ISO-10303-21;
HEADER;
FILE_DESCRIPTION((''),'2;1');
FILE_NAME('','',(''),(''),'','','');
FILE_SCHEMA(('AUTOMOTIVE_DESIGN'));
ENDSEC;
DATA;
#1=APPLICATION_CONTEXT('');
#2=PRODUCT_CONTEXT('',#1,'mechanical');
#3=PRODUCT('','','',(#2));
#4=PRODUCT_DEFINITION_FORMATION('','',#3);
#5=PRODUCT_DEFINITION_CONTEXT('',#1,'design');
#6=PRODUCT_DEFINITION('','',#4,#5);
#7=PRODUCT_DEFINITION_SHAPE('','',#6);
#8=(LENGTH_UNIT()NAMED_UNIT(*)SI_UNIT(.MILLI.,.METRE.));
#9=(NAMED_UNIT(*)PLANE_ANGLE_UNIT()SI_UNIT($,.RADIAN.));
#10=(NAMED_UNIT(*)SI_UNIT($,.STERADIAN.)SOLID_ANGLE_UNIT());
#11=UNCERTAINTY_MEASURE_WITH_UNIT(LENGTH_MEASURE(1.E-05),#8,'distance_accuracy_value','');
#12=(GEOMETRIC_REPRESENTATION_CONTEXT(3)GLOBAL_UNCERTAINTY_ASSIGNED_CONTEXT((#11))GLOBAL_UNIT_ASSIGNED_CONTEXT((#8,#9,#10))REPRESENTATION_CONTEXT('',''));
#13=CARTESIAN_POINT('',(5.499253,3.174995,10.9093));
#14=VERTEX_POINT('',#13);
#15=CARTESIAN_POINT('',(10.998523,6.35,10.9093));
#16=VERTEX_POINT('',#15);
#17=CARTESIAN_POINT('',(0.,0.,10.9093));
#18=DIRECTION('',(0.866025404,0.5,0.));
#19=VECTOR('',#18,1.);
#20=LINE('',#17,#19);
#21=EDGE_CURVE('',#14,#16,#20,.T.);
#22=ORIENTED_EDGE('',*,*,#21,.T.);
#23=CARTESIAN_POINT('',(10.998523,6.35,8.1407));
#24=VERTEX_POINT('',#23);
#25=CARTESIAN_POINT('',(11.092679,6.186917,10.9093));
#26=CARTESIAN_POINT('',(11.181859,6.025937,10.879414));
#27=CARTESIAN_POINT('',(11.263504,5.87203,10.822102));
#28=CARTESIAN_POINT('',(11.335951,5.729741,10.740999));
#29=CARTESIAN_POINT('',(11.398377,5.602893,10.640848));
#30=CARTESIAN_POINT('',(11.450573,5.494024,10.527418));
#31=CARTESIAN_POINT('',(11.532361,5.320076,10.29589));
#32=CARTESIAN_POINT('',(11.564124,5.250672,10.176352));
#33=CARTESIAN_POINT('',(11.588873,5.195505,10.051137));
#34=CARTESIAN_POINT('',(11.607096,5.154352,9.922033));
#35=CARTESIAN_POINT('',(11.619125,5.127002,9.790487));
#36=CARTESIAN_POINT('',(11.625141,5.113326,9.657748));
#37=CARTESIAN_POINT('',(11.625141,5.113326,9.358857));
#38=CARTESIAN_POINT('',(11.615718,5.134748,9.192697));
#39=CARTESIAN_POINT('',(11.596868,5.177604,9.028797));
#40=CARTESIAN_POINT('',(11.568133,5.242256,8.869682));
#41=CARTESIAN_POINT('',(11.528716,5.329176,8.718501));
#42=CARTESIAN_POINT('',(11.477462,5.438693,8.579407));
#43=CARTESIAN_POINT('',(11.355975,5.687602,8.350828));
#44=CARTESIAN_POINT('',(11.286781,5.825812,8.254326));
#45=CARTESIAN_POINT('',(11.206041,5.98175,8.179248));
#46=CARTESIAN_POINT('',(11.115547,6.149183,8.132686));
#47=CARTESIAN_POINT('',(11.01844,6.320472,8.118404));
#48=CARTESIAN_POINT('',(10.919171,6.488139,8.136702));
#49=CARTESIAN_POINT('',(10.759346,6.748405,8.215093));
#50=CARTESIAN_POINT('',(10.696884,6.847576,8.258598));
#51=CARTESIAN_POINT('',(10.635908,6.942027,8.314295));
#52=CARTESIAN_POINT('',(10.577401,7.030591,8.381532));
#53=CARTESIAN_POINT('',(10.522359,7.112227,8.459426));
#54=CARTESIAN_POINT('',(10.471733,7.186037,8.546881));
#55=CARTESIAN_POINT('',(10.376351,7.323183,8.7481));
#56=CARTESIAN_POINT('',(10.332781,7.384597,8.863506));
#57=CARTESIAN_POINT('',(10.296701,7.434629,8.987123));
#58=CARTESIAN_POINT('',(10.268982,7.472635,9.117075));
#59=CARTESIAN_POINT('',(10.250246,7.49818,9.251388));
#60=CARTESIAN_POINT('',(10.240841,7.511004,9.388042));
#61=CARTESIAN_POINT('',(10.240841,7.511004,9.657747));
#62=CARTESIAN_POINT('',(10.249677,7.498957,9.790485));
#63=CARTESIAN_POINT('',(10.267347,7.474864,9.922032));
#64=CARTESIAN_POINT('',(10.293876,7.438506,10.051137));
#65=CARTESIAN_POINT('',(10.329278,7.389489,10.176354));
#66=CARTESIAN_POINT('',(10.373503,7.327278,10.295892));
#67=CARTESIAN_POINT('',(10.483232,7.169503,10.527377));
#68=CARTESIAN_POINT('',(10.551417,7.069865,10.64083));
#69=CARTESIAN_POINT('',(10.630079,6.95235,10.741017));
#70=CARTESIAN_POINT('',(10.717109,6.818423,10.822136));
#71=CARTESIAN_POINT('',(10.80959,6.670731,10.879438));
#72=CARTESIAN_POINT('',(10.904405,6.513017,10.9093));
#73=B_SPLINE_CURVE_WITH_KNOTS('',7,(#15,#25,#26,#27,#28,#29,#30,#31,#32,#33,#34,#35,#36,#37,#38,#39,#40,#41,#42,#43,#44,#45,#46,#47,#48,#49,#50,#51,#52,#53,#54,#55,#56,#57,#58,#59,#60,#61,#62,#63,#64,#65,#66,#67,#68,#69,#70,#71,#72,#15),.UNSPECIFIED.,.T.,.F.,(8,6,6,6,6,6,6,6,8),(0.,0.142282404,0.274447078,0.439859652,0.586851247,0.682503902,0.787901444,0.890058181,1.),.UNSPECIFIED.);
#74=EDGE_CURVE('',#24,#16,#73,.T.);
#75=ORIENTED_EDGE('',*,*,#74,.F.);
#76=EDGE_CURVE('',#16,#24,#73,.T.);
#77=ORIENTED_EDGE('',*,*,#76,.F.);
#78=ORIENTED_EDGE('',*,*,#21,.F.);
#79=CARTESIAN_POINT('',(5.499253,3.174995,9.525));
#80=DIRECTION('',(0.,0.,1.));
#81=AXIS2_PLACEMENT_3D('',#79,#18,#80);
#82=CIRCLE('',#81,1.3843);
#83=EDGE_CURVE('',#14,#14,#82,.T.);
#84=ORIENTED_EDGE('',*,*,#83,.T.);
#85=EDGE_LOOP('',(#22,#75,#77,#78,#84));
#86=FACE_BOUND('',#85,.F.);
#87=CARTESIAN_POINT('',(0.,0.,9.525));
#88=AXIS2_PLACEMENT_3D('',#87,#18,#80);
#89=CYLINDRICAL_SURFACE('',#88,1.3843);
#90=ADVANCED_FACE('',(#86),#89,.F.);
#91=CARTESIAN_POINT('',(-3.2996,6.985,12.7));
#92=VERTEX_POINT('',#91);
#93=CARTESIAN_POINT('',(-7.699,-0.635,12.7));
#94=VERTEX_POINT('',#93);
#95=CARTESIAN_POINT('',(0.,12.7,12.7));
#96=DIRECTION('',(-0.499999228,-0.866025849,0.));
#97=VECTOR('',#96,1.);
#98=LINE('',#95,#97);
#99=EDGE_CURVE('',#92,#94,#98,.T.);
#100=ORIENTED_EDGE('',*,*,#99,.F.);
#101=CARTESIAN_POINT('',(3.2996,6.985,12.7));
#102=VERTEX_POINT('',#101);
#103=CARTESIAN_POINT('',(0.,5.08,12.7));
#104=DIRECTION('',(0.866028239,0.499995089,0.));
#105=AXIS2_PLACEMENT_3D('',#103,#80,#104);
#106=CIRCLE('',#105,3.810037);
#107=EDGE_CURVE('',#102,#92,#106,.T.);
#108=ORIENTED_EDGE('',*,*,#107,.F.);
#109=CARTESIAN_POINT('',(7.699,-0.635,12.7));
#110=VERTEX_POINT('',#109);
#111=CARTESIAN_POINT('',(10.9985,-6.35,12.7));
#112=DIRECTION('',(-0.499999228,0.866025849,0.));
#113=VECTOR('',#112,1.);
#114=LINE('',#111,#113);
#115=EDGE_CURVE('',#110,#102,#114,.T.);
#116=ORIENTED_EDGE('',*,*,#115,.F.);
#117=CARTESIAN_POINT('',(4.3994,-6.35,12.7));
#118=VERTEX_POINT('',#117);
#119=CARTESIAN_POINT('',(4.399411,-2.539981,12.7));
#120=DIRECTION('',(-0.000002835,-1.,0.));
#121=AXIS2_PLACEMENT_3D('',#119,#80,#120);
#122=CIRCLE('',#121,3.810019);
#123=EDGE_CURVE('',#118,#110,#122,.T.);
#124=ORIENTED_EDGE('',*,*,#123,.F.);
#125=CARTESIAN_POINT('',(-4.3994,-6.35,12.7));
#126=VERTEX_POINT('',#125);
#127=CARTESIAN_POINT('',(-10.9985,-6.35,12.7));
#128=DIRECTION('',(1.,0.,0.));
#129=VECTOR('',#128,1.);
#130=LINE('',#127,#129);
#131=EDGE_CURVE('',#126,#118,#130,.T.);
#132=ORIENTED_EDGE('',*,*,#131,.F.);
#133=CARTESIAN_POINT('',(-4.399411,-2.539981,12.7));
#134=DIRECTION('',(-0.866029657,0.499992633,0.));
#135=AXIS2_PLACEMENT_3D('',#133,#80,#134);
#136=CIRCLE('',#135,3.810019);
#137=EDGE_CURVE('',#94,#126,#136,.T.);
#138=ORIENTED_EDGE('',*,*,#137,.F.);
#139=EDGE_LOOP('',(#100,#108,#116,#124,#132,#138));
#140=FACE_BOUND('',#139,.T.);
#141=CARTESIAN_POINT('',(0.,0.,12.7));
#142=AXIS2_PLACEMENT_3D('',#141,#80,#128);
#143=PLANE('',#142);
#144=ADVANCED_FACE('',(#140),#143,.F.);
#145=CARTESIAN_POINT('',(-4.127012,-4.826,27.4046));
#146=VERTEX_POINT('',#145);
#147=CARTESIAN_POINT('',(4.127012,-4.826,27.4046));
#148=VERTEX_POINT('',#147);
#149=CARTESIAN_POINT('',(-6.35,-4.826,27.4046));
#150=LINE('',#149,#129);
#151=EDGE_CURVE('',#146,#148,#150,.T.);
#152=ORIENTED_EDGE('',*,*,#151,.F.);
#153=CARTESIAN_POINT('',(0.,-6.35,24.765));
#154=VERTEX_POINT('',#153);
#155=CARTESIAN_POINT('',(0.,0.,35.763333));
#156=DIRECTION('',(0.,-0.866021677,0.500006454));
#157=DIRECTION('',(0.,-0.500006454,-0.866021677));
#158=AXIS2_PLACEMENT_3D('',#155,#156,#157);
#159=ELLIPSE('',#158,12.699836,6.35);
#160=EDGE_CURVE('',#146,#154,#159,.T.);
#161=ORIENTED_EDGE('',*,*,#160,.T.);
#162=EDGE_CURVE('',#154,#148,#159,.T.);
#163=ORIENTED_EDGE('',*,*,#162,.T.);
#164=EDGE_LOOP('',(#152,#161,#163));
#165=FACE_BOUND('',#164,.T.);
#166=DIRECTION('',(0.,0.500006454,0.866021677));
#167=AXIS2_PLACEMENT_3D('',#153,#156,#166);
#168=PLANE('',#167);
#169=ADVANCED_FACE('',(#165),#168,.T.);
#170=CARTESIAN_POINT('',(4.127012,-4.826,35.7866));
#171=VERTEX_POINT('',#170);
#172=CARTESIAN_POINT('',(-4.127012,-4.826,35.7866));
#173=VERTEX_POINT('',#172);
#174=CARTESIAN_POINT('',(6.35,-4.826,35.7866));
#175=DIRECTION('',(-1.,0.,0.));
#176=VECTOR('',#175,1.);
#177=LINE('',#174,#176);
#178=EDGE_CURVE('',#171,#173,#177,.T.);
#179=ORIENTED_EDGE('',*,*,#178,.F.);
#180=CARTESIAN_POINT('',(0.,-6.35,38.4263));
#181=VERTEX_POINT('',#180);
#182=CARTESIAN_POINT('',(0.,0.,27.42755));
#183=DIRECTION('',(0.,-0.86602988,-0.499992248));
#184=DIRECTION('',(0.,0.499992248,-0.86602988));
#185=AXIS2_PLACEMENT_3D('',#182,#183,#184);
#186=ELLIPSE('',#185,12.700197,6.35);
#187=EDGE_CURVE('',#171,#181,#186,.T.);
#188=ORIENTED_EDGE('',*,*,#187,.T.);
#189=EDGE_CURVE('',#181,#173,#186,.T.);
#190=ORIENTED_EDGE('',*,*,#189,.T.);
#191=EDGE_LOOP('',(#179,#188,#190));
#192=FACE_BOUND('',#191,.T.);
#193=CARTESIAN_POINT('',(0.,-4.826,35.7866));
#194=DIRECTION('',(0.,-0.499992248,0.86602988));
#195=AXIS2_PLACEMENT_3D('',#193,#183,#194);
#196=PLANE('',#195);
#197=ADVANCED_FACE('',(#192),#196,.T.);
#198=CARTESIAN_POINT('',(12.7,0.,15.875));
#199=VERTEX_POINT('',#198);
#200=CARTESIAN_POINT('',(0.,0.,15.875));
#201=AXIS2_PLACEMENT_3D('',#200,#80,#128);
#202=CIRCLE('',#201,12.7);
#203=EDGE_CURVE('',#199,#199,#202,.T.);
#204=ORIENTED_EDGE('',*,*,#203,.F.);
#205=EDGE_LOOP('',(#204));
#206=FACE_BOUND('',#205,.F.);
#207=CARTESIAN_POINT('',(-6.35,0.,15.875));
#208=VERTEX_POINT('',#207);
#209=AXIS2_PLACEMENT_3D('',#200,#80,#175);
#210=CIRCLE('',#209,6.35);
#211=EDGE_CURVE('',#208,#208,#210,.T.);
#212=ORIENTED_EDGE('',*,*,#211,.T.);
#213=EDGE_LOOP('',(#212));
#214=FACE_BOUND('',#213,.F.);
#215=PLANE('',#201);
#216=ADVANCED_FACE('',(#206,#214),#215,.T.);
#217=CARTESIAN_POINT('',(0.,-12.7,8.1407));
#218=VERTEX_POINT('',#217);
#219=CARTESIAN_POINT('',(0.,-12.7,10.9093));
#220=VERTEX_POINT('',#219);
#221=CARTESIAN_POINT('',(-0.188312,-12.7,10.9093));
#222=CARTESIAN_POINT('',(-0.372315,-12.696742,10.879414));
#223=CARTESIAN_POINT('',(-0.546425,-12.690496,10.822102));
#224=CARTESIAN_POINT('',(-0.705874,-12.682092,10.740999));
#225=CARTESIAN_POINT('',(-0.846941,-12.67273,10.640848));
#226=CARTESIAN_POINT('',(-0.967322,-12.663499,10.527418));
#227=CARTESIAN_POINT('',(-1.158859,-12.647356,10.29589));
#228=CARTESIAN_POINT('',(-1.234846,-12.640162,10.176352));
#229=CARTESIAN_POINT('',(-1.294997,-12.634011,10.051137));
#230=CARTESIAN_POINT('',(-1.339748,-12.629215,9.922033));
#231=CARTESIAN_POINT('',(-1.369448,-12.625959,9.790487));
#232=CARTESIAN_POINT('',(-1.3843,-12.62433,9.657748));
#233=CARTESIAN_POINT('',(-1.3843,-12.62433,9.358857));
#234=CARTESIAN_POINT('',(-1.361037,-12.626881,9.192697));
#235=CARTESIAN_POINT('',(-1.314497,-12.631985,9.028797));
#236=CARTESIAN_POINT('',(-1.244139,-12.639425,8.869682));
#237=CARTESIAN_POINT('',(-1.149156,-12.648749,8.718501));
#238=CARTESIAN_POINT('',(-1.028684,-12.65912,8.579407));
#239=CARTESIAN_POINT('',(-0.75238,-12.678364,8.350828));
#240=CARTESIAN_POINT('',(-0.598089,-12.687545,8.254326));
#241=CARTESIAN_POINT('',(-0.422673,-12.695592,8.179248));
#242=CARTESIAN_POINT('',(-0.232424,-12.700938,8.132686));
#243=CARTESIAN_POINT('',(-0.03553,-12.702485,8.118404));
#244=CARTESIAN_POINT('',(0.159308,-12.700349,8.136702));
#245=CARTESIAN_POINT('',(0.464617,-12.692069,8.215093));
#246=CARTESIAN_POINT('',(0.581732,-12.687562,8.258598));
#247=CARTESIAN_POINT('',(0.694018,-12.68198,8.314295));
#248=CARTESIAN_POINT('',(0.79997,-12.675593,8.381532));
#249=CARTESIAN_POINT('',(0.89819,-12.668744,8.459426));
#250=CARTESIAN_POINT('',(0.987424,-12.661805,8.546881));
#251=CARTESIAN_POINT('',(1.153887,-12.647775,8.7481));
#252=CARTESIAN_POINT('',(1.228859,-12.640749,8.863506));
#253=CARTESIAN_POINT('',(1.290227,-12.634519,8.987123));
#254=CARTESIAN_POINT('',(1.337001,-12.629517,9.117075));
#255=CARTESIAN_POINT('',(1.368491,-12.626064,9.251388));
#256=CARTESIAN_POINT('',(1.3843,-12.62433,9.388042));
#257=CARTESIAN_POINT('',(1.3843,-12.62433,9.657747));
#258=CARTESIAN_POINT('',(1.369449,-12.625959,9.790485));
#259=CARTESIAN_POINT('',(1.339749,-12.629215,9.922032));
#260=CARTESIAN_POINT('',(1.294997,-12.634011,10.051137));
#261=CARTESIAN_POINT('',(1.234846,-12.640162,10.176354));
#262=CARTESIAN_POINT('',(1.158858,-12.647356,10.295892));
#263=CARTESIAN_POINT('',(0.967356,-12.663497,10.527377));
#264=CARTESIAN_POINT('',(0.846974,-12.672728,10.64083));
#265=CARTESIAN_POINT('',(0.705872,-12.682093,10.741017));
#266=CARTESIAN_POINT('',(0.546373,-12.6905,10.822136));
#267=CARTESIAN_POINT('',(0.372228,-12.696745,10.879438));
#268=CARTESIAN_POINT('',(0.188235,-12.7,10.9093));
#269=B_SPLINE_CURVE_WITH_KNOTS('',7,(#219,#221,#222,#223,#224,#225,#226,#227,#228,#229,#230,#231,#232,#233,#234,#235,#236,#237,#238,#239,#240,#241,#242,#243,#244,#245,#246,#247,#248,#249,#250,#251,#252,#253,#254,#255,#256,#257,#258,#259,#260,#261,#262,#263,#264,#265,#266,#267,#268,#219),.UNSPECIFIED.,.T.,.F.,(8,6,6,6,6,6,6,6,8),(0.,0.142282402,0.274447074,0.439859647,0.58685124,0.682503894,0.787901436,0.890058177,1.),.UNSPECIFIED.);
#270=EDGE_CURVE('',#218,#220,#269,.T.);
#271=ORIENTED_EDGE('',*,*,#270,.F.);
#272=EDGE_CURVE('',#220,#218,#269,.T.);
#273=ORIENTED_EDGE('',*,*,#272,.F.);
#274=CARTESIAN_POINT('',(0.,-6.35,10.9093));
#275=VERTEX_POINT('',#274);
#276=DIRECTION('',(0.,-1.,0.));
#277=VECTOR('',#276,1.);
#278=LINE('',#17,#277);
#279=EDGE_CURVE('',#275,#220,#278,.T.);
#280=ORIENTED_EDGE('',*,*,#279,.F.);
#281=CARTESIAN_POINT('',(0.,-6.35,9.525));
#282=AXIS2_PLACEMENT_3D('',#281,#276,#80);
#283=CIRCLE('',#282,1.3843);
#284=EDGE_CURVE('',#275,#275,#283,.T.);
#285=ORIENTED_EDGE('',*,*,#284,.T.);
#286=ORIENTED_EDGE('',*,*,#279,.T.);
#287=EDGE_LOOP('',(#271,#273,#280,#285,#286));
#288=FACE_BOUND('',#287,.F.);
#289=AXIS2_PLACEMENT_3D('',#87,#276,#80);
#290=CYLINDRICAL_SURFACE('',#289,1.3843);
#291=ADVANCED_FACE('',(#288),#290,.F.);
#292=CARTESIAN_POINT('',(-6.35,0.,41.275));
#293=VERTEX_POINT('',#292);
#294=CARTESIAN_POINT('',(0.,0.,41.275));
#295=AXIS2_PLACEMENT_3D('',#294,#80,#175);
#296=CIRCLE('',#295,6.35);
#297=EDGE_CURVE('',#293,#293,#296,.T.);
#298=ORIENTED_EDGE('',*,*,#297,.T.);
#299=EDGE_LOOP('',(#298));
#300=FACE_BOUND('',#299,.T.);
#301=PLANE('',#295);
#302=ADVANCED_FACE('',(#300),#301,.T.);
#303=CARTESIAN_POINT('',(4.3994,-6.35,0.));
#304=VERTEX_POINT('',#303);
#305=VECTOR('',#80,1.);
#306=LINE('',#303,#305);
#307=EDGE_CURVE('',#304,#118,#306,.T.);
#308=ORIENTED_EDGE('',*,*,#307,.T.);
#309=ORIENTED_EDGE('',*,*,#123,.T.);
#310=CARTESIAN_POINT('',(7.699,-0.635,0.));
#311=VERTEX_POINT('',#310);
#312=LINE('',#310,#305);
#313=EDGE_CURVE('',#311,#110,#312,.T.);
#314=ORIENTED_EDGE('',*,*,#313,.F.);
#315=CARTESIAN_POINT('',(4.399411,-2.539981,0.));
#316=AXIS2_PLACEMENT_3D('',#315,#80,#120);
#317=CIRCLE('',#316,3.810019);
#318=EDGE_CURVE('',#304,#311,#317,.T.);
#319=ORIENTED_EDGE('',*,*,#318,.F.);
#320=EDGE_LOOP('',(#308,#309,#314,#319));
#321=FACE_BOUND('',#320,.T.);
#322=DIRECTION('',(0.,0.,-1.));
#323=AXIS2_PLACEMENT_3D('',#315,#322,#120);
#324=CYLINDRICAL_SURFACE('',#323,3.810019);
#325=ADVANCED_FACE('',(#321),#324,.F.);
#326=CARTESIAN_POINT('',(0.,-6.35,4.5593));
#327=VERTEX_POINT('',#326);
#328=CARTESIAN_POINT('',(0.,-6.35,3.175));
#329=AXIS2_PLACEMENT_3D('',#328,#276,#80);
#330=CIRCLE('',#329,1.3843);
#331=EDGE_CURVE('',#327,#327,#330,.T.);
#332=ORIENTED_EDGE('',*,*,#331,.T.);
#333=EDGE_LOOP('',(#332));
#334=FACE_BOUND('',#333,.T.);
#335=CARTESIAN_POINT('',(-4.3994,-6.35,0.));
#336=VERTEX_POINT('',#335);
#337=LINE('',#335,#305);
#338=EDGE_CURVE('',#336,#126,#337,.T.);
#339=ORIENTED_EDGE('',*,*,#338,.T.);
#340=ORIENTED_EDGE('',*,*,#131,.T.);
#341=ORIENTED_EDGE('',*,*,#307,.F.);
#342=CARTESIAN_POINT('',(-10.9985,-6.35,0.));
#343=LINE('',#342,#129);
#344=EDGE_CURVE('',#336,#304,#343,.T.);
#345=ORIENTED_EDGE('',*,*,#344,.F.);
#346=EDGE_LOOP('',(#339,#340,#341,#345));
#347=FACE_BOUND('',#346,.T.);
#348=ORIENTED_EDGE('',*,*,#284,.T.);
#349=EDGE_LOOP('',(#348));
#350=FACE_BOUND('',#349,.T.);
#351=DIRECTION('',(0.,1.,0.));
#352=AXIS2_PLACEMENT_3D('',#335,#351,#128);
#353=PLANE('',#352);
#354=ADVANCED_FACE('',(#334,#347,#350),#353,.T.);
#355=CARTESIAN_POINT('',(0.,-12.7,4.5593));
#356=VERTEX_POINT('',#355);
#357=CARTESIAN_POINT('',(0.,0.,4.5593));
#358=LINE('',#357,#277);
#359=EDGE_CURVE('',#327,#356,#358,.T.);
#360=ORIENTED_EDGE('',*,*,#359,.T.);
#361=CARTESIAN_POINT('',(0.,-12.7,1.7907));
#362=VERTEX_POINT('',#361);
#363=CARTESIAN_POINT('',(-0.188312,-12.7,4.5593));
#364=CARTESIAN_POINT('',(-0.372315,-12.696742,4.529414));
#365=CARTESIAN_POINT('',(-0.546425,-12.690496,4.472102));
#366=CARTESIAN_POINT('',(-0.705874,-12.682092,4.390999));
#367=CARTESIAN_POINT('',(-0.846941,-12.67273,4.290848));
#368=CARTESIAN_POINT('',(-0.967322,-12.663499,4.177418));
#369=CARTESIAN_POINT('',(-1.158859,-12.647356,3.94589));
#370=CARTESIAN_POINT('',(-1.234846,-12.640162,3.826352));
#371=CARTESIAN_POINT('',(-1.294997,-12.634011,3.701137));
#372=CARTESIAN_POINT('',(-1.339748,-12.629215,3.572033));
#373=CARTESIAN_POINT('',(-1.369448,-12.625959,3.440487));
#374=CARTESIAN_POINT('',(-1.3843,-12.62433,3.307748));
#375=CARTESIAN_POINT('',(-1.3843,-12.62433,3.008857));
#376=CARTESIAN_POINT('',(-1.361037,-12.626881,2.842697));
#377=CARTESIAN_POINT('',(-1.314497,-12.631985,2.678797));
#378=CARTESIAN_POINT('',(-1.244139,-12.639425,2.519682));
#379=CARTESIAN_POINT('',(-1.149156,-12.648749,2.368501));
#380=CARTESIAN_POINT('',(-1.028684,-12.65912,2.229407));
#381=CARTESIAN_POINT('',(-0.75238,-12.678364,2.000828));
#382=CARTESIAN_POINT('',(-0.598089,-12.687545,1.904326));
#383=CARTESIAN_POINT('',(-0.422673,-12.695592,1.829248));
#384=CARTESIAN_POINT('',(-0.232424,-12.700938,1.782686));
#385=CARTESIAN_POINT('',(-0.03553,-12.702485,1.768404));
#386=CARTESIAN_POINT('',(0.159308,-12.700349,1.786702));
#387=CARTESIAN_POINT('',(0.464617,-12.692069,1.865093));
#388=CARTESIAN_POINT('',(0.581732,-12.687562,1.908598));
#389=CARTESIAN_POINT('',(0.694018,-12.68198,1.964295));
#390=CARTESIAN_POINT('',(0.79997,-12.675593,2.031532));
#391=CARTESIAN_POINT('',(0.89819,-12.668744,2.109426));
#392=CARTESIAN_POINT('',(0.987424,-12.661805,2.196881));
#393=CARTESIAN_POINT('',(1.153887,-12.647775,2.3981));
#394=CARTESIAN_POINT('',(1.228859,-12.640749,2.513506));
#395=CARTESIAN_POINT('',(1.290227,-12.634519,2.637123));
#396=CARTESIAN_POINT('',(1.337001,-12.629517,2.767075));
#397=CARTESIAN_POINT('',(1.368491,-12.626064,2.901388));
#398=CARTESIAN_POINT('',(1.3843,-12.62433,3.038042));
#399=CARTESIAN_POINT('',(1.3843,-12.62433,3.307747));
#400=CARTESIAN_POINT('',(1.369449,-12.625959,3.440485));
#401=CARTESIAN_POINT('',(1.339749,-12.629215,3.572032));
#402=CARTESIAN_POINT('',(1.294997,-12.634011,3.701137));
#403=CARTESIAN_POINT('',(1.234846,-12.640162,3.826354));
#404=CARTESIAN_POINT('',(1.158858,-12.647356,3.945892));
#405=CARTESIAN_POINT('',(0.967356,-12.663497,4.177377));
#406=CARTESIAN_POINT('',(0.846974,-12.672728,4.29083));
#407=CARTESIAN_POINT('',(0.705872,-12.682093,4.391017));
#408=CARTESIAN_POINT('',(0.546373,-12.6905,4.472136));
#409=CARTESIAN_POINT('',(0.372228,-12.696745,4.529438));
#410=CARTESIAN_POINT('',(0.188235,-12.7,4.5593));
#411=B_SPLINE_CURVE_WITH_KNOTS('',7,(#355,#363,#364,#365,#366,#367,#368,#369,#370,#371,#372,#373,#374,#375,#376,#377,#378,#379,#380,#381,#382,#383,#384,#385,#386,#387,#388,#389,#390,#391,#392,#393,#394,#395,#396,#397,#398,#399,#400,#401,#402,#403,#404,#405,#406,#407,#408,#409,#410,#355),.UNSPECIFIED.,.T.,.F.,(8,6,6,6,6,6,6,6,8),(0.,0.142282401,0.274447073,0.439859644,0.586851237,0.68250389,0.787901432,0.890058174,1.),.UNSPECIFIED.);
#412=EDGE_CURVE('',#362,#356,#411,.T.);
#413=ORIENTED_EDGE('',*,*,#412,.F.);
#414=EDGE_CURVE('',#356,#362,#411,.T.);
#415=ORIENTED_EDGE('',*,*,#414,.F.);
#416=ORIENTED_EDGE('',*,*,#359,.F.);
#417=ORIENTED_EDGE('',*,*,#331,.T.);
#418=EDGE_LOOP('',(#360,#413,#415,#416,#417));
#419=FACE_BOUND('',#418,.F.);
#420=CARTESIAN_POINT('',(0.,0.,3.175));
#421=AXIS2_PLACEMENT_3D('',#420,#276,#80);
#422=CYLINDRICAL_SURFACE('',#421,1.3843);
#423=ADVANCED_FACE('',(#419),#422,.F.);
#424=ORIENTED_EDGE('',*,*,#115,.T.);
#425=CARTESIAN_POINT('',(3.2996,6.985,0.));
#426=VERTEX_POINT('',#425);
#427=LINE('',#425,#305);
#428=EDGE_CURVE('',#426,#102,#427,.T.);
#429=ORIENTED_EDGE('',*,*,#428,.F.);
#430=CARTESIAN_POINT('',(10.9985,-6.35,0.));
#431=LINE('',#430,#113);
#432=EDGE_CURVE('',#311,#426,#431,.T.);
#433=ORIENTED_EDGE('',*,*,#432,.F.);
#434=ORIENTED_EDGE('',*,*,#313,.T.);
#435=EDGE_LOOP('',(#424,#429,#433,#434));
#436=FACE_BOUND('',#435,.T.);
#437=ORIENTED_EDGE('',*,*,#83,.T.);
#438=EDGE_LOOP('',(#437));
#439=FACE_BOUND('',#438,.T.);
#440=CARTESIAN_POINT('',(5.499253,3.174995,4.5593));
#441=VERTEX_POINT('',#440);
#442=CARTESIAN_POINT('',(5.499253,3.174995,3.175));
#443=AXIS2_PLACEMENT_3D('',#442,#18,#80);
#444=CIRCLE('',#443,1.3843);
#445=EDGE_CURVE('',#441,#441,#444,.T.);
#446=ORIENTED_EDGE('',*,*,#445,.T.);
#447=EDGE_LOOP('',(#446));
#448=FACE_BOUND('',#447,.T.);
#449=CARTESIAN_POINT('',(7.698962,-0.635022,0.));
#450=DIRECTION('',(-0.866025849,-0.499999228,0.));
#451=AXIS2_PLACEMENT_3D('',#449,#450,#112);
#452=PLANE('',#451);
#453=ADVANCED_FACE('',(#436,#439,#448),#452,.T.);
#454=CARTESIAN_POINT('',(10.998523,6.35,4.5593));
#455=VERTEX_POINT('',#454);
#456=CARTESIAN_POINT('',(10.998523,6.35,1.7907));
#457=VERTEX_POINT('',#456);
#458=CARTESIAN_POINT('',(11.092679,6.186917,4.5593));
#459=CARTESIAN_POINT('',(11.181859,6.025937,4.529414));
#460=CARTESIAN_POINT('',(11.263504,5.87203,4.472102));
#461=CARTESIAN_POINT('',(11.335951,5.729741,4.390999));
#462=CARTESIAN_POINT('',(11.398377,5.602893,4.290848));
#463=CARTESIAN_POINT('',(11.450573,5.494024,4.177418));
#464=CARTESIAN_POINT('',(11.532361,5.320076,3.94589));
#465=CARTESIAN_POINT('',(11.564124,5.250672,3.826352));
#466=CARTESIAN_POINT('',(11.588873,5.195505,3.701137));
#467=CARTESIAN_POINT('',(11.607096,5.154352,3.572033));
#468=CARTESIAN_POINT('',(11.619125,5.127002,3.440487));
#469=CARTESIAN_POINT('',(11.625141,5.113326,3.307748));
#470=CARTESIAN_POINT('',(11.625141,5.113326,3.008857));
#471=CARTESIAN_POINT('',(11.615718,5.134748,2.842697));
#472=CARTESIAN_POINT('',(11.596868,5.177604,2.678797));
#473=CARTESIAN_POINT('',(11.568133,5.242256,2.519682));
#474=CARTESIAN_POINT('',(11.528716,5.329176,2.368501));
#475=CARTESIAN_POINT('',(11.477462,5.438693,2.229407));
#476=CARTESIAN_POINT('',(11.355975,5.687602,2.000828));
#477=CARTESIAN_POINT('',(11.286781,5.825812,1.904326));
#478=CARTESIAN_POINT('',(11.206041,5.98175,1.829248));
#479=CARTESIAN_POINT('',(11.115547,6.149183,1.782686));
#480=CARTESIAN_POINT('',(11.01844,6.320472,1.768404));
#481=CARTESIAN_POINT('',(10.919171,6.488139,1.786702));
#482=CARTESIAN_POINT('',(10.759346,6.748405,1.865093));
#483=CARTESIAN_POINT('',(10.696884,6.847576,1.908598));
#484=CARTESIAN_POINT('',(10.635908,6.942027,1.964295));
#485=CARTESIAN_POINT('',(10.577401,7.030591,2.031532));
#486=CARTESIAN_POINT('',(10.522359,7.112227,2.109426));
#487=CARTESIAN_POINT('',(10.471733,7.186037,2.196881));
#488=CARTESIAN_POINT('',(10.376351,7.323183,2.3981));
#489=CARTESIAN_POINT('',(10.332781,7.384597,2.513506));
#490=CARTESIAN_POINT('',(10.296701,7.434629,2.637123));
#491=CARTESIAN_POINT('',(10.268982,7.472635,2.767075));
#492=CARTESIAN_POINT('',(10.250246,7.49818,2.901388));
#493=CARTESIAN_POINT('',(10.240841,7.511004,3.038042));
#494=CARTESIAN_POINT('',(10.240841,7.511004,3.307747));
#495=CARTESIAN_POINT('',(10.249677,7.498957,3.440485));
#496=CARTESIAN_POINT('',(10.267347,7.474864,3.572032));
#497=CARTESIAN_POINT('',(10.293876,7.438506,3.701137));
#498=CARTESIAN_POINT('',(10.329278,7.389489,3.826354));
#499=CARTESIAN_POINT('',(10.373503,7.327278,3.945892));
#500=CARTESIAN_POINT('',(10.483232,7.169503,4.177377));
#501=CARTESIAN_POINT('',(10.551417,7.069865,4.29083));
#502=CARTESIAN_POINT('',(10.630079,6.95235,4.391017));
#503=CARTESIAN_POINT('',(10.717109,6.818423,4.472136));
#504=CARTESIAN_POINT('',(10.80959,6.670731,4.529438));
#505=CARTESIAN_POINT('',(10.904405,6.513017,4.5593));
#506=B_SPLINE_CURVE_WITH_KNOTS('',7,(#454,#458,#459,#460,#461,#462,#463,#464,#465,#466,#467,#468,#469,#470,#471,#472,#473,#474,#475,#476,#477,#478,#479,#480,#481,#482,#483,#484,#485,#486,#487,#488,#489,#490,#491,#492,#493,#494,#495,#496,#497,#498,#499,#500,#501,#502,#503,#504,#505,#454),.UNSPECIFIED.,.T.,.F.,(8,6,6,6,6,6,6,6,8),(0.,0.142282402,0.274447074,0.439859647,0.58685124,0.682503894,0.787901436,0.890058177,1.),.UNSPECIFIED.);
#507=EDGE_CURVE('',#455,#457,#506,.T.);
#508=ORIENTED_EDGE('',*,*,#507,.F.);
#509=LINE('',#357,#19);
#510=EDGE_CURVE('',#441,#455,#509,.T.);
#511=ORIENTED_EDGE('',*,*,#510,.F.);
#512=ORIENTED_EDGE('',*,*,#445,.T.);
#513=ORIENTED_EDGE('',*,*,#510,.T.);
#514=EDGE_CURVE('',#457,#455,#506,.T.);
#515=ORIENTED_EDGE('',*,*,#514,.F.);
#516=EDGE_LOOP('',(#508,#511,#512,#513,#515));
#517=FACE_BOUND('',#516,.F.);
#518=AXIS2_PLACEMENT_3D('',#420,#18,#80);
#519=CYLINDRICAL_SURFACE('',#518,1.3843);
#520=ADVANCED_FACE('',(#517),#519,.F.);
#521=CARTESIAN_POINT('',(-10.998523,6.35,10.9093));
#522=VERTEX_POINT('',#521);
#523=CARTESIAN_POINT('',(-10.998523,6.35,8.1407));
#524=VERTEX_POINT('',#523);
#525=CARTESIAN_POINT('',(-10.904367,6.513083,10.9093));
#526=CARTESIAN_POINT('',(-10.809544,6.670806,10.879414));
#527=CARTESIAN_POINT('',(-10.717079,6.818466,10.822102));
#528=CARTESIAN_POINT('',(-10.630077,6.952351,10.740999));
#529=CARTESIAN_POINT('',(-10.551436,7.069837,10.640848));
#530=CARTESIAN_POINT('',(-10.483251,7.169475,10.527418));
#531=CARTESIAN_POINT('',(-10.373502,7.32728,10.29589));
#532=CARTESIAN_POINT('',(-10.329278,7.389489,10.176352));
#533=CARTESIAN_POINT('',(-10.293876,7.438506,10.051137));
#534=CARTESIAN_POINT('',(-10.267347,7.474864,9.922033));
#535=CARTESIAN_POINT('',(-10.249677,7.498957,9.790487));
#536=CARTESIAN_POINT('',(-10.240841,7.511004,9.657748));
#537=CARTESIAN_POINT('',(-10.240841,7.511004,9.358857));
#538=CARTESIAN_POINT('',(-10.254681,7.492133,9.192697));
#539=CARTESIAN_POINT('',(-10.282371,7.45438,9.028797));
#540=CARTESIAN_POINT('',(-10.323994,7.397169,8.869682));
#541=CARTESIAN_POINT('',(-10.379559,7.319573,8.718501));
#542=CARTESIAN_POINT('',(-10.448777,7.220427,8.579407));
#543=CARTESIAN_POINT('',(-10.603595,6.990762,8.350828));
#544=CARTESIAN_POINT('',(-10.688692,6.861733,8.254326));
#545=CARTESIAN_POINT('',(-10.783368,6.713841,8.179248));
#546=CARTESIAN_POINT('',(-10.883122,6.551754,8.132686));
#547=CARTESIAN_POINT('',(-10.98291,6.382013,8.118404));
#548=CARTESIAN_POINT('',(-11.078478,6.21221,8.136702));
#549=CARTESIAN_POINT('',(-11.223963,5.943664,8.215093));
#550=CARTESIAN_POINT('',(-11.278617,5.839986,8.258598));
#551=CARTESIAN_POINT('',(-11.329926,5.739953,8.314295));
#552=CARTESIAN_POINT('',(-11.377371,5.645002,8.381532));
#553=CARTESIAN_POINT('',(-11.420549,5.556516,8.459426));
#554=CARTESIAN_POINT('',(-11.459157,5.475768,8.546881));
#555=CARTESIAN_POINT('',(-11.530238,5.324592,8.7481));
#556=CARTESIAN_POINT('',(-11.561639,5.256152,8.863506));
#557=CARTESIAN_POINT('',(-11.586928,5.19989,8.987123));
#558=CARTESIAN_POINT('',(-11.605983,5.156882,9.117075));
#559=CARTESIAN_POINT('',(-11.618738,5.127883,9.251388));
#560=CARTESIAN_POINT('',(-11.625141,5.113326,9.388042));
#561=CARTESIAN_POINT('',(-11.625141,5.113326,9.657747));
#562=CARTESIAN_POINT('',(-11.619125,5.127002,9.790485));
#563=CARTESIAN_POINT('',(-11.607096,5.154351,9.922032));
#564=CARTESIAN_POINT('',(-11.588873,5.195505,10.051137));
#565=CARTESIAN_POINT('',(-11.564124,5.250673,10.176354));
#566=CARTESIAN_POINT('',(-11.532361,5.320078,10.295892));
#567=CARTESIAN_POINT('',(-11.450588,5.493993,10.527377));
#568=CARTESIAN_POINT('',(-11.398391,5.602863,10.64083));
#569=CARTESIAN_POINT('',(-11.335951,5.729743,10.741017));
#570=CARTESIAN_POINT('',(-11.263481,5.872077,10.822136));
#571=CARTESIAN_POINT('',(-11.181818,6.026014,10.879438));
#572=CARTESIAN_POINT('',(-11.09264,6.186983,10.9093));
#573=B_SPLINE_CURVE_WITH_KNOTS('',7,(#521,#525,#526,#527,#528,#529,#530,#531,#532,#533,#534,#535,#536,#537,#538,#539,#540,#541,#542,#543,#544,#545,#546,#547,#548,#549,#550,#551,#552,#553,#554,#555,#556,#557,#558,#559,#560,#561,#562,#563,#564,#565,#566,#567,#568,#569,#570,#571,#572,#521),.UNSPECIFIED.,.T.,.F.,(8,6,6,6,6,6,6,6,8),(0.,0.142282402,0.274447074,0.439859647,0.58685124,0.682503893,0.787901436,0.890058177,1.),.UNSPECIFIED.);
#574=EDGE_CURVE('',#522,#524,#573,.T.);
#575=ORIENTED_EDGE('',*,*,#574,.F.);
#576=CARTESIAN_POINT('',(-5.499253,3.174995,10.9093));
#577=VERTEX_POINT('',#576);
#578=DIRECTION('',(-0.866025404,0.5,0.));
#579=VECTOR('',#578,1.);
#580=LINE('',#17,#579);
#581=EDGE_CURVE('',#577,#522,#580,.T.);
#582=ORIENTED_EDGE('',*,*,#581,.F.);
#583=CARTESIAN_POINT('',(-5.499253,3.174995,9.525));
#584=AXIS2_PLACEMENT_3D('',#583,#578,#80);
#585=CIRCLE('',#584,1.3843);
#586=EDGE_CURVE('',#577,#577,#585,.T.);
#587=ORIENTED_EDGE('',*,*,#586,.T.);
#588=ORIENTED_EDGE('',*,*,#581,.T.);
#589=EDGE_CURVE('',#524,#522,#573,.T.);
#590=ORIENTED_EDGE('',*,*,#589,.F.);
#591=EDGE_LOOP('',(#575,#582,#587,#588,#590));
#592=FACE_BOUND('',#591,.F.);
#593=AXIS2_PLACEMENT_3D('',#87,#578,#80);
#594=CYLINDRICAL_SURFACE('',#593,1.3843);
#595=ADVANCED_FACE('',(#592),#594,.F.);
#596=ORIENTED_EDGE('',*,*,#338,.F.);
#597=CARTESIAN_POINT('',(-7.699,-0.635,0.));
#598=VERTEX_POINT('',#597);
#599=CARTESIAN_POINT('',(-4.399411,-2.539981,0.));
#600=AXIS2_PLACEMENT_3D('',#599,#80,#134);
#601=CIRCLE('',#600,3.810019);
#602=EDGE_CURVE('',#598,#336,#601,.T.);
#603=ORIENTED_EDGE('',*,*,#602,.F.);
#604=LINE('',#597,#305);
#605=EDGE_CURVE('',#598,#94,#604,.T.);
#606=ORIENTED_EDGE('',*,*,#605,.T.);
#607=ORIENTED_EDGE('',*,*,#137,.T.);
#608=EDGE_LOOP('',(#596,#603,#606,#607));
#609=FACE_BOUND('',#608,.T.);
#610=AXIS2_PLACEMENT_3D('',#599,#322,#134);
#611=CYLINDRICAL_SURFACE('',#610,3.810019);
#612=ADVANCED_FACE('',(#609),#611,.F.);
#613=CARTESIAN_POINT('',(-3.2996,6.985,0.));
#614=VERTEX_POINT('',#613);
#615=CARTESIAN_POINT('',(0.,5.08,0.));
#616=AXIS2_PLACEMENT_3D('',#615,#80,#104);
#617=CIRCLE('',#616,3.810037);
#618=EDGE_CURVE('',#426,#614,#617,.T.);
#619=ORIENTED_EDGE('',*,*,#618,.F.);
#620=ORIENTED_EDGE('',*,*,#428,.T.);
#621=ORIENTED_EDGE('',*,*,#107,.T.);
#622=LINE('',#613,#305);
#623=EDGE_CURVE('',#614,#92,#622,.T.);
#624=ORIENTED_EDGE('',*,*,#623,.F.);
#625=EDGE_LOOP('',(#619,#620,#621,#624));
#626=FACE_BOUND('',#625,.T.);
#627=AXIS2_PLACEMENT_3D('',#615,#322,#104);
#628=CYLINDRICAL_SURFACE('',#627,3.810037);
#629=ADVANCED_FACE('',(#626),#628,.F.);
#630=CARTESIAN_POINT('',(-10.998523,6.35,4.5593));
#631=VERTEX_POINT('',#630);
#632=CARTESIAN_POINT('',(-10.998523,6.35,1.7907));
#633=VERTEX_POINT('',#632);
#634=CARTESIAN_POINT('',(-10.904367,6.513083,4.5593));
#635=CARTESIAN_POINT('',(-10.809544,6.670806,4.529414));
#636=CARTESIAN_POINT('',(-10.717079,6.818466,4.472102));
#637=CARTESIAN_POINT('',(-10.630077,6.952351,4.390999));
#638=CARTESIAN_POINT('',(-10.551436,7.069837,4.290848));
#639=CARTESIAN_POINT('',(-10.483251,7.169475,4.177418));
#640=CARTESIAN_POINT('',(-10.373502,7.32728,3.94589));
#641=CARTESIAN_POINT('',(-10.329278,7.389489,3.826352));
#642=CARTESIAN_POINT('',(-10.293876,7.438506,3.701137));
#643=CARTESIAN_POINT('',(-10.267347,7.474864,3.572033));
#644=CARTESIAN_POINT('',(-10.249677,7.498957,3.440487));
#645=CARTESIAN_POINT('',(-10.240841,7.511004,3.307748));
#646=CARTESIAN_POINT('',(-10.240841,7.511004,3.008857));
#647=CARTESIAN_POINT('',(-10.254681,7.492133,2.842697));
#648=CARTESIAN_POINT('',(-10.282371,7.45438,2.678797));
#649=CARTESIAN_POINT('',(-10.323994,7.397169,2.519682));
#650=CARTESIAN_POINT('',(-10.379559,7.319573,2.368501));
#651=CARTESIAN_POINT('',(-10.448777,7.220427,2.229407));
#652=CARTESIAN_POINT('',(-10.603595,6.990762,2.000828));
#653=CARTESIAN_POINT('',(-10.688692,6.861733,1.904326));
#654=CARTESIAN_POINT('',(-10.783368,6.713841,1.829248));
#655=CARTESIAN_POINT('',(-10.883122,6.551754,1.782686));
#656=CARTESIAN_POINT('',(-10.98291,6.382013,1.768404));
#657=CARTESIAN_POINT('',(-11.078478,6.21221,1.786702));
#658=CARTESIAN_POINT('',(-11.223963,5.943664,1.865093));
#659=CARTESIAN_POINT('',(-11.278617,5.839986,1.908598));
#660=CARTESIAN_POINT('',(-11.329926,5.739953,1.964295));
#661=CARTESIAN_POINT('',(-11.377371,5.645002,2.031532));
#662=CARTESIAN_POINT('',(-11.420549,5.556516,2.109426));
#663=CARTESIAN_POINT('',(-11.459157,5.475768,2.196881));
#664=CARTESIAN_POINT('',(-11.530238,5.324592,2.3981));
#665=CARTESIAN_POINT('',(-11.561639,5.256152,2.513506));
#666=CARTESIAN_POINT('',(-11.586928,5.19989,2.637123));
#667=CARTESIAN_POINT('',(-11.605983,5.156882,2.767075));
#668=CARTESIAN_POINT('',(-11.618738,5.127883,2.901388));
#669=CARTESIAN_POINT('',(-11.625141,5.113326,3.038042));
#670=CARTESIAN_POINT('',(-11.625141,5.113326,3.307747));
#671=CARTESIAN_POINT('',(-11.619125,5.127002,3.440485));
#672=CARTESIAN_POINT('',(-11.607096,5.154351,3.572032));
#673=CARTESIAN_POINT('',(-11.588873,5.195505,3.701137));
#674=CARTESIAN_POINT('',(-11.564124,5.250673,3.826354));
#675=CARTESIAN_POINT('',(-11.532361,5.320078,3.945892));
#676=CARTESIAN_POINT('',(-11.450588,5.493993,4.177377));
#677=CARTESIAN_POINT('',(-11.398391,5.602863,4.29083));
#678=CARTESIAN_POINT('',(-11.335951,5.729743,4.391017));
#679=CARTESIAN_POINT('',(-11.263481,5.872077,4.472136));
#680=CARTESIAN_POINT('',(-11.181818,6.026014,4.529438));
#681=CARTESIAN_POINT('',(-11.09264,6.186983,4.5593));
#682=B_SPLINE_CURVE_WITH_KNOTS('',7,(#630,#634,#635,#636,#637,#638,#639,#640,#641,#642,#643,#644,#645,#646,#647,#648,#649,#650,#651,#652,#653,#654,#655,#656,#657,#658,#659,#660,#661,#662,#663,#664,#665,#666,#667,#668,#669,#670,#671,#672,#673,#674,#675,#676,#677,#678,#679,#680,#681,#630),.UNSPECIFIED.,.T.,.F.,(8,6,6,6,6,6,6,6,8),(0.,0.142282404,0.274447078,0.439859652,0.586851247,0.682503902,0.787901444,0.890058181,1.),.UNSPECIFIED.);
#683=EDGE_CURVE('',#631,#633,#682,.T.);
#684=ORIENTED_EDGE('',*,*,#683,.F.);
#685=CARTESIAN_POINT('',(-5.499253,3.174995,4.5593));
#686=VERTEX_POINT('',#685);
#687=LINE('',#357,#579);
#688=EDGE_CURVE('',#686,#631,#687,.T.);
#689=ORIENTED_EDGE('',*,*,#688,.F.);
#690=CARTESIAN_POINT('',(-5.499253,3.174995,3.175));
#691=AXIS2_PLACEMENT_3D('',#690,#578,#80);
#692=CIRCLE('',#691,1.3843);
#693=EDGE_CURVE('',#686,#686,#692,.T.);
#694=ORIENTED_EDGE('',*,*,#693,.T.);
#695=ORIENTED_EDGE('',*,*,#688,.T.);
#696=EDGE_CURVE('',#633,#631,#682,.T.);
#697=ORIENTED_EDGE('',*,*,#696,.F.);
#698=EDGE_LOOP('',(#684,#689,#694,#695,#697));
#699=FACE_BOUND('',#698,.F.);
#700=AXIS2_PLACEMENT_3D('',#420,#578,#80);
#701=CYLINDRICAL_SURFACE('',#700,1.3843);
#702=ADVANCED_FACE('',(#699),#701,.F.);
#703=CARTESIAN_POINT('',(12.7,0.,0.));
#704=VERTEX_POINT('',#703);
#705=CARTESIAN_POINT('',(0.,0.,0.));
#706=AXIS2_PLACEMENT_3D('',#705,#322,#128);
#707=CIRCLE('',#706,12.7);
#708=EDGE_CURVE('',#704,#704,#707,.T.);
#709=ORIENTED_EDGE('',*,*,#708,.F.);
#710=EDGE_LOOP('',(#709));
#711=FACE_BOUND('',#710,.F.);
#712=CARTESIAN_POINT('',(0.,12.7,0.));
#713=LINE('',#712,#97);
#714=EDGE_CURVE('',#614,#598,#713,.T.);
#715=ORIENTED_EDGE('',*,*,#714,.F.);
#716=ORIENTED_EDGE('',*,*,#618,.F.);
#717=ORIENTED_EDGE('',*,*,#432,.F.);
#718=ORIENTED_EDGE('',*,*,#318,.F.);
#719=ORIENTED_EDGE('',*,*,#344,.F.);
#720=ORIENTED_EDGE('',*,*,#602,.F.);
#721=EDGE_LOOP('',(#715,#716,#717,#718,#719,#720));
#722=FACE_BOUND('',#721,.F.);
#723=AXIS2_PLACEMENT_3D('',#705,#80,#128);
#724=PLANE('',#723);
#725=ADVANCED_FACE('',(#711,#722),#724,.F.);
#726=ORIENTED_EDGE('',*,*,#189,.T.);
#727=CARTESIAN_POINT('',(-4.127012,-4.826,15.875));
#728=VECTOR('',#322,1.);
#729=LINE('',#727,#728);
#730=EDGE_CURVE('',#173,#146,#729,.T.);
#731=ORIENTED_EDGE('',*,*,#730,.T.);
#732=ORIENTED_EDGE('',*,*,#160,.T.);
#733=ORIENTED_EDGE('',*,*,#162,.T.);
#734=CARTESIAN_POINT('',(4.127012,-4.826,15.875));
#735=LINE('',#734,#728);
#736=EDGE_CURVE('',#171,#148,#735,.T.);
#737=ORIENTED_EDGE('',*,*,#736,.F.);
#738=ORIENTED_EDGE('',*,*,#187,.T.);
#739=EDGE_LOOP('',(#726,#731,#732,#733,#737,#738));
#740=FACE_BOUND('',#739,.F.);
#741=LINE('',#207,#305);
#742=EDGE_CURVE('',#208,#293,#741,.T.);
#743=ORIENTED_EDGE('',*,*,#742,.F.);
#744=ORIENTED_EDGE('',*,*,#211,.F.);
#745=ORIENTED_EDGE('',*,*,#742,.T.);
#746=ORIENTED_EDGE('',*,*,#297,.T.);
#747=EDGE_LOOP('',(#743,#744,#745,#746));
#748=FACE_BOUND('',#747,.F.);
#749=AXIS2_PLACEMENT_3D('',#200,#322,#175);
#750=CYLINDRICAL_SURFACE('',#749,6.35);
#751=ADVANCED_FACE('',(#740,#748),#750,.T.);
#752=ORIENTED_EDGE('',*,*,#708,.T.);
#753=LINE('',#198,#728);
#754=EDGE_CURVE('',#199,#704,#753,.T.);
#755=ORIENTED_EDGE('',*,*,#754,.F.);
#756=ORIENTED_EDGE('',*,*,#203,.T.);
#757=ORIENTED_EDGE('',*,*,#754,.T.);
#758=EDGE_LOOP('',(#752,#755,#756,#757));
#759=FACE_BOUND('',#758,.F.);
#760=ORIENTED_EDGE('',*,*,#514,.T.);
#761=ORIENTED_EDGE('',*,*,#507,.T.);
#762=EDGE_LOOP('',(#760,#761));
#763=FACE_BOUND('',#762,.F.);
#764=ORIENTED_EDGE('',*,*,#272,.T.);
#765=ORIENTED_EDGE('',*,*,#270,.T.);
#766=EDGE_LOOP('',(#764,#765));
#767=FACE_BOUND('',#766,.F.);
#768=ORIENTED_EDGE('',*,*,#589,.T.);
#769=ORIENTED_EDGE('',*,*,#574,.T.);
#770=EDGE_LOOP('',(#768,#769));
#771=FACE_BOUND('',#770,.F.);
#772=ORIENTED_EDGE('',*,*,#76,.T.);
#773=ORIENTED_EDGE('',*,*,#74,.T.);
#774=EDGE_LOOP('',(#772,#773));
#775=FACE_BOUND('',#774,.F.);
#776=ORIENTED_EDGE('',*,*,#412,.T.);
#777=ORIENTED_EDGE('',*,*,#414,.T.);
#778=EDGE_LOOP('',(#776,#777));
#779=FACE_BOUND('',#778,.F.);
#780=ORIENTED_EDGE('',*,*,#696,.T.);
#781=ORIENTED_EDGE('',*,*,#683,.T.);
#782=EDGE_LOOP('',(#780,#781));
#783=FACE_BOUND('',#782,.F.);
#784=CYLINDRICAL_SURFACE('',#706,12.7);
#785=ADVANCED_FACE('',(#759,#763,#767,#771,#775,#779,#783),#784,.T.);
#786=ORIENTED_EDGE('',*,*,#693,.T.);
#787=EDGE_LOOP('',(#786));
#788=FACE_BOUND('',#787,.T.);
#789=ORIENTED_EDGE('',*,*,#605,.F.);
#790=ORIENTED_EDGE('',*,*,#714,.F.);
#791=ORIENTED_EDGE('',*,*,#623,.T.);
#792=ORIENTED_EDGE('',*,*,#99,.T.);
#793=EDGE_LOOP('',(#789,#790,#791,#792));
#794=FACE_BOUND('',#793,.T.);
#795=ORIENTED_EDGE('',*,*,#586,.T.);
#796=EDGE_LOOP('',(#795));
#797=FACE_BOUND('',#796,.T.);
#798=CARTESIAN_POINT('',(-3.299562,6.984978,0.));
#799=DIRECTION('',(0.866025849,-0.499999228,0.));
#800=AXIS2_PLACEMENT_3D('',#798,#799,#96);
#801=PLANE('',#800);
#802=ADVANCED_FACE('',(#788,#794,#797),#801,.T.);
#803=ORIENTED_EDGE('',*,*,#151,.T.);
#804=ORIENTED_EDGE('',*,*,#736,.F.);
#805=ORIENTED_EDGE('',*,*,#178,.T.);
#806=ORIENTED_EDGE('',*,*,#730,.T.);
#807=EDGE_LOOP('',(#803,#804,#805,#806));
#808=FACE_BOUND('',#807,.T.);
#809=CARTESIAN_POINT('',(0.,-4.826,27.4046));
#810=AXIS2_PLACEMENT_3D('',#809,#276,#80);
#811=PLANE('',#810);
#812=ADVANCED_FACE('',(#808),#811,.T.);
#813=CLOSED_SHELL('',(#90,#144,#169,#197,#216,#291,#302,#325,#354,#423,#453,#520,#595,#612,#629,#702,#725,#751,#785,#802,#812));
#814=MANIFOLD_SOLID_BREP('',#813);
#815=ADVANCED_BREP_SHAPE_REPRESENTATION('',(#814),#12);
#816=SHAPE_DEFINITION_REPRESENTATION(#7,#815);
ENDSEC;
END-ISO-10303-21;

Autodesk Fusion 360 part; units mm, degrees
sketch "Sketch1" plane through (0, 0, 0) normal (0, 0, 1) x (1, 0, 0)
  line L0 (10.9985, -6.35) -> (0, 12.7)
  line L1 (0, 12.7) -> (-10.9985, -6.35)
  line L2 (-10.9985, -6.35) -> (10.9985, -6.35)
  line L3 (3.6662, -6.35) -> (7.3323, 0) construction
  line L4 (7.3323, 0) -> (3.6662, 6.35) construction
  line L5 (3.6662, 6.35) -> (-3.6662, 6.35) construction
  line L6 (-3.6662, 6.35) -> (-7.3323, 0) construction
  line L7 (-7.3323, 0) -> (-3.6662, -6.35) construction
  line L8 (-3.6662, -6.35) -> (3.6662, -6.35) construction
  circle A0 centre (0, 0) radius 12.7
  arc A1 (3.2996, 6.985) -> (-3.2996, 6.985) centre (0, 5.08) ccw
  arc A2 (-7.699, -0.635) -> (-4.3994, -6.35) centre (-4.3994, -2.54) ccw
  arc A3 (4.3994, -6.35) -> (7.699, -0.635) centre (4.3994, -2.54) ccw
  dimension "d1" = 6.35
  dimension "d2" = 25.4
  dimension "d4" = 3.81
  dimension "d6" = 360
extrude "Extrude1" add sketch "Sketch1" along normal blind 12.7 contours L0 L2 A3 | L2 A0 | L0 A0 | L1 A0 | L1 L2 A2 | L0 L1 A1
sketch "Sketch2" plane through (0, 0, 0) normal (0, 1, 0) x (1, 0, 0)
  line L0 (0, -12.7) -> (0, -15.875)
  line L1 (-12.7, -12.7) -> (12.7, -12.7)
  line L2 (-12.7, 0) -> (12.7, 0)
  line L3 (12.7, -12.7) -> (12.7, -15.875)
  line L4 (0, -15.875) -> (12.7, -15.875)
  line L5 (0, 0) -> (0, -3.175) construction
  line L6 (0, -3.175) -> (0, -6.35) construction
  line L7 (0, -6.35) -> (0, -9.525) construction
  line L8 (0, -9.525) -> (0, -12.7) construction
  point P0 (0, -9.525)
  point P1 (0, -6.35)
  point P2 (0, -3.175)
  dimension "d9" = 3.175
  dimension "d10" = 12.7
revolve "Revolve1" add sketch "Sketch2" angle 360 about axis through (0, 0, 12.7) along (0, 0, 1)
sketch "Sketch3" plane through (0, 0, 15.875) normal (0, 0, 1) x (-1, 0, 0)
  circle A0 centre (0, 0) radius 12.7
  circle A1 centre (0, 0) radius 6.35
  dimension "d12" = 12.7
extrude "Extrude2" add sketch "Sketch3" along normal blind 25.4 contours A1
sketch "Sketch4" plane through (0, 0, 0) normal (1, 0, 0) x (0, 1, 0)
  line L0 (6.35, 41.275) -> (-6.35, 41.275)
  line L1 (-6.35, 15.875) -> (-6.35, 24.765) construction
  line L2 (-6.35, 24.765) -> (-4.826, 27.4046)
  line L3 (-4.826, 27.4046) -> (-4.826, 35.7866)
  line L4 (-4.826, 35.7866) -> (-6.35, 38.4263)
  line L5 (-6.35, 41.275) -> (-6.35, 38.4263) construction
  line L6 (-6.35, 38.4263) -> (-6.35, 24.765)
  line L7 (-6.35, 15.875) -> (6.35, 15.875)
  dimension "d15" = 8.89
  dimension "d16" = 8.382
  dimension "d17" = 150
  dimension "d18" = 150
  dimension "d19" = 1.524
extrude "Extrude3" cut sketch "Sketch4" along normal mid plane 12.7
hole "Hole1" at (0, 0, 9.525) at (0, 0, 3.175) direction (0, -1, 0) diameter 2.7686 depth 12.7 tip angle 180
pattern_circular "C-Pattern1" count 3 over 360 about axis through (0, 0, 0) along (0, 0, 1) of "Hole1"
equation "d7 = shankLength"
equation "d18 = d17"
equation "d20 = d12 / 2"
equation "shankLength = 0.5 in"
